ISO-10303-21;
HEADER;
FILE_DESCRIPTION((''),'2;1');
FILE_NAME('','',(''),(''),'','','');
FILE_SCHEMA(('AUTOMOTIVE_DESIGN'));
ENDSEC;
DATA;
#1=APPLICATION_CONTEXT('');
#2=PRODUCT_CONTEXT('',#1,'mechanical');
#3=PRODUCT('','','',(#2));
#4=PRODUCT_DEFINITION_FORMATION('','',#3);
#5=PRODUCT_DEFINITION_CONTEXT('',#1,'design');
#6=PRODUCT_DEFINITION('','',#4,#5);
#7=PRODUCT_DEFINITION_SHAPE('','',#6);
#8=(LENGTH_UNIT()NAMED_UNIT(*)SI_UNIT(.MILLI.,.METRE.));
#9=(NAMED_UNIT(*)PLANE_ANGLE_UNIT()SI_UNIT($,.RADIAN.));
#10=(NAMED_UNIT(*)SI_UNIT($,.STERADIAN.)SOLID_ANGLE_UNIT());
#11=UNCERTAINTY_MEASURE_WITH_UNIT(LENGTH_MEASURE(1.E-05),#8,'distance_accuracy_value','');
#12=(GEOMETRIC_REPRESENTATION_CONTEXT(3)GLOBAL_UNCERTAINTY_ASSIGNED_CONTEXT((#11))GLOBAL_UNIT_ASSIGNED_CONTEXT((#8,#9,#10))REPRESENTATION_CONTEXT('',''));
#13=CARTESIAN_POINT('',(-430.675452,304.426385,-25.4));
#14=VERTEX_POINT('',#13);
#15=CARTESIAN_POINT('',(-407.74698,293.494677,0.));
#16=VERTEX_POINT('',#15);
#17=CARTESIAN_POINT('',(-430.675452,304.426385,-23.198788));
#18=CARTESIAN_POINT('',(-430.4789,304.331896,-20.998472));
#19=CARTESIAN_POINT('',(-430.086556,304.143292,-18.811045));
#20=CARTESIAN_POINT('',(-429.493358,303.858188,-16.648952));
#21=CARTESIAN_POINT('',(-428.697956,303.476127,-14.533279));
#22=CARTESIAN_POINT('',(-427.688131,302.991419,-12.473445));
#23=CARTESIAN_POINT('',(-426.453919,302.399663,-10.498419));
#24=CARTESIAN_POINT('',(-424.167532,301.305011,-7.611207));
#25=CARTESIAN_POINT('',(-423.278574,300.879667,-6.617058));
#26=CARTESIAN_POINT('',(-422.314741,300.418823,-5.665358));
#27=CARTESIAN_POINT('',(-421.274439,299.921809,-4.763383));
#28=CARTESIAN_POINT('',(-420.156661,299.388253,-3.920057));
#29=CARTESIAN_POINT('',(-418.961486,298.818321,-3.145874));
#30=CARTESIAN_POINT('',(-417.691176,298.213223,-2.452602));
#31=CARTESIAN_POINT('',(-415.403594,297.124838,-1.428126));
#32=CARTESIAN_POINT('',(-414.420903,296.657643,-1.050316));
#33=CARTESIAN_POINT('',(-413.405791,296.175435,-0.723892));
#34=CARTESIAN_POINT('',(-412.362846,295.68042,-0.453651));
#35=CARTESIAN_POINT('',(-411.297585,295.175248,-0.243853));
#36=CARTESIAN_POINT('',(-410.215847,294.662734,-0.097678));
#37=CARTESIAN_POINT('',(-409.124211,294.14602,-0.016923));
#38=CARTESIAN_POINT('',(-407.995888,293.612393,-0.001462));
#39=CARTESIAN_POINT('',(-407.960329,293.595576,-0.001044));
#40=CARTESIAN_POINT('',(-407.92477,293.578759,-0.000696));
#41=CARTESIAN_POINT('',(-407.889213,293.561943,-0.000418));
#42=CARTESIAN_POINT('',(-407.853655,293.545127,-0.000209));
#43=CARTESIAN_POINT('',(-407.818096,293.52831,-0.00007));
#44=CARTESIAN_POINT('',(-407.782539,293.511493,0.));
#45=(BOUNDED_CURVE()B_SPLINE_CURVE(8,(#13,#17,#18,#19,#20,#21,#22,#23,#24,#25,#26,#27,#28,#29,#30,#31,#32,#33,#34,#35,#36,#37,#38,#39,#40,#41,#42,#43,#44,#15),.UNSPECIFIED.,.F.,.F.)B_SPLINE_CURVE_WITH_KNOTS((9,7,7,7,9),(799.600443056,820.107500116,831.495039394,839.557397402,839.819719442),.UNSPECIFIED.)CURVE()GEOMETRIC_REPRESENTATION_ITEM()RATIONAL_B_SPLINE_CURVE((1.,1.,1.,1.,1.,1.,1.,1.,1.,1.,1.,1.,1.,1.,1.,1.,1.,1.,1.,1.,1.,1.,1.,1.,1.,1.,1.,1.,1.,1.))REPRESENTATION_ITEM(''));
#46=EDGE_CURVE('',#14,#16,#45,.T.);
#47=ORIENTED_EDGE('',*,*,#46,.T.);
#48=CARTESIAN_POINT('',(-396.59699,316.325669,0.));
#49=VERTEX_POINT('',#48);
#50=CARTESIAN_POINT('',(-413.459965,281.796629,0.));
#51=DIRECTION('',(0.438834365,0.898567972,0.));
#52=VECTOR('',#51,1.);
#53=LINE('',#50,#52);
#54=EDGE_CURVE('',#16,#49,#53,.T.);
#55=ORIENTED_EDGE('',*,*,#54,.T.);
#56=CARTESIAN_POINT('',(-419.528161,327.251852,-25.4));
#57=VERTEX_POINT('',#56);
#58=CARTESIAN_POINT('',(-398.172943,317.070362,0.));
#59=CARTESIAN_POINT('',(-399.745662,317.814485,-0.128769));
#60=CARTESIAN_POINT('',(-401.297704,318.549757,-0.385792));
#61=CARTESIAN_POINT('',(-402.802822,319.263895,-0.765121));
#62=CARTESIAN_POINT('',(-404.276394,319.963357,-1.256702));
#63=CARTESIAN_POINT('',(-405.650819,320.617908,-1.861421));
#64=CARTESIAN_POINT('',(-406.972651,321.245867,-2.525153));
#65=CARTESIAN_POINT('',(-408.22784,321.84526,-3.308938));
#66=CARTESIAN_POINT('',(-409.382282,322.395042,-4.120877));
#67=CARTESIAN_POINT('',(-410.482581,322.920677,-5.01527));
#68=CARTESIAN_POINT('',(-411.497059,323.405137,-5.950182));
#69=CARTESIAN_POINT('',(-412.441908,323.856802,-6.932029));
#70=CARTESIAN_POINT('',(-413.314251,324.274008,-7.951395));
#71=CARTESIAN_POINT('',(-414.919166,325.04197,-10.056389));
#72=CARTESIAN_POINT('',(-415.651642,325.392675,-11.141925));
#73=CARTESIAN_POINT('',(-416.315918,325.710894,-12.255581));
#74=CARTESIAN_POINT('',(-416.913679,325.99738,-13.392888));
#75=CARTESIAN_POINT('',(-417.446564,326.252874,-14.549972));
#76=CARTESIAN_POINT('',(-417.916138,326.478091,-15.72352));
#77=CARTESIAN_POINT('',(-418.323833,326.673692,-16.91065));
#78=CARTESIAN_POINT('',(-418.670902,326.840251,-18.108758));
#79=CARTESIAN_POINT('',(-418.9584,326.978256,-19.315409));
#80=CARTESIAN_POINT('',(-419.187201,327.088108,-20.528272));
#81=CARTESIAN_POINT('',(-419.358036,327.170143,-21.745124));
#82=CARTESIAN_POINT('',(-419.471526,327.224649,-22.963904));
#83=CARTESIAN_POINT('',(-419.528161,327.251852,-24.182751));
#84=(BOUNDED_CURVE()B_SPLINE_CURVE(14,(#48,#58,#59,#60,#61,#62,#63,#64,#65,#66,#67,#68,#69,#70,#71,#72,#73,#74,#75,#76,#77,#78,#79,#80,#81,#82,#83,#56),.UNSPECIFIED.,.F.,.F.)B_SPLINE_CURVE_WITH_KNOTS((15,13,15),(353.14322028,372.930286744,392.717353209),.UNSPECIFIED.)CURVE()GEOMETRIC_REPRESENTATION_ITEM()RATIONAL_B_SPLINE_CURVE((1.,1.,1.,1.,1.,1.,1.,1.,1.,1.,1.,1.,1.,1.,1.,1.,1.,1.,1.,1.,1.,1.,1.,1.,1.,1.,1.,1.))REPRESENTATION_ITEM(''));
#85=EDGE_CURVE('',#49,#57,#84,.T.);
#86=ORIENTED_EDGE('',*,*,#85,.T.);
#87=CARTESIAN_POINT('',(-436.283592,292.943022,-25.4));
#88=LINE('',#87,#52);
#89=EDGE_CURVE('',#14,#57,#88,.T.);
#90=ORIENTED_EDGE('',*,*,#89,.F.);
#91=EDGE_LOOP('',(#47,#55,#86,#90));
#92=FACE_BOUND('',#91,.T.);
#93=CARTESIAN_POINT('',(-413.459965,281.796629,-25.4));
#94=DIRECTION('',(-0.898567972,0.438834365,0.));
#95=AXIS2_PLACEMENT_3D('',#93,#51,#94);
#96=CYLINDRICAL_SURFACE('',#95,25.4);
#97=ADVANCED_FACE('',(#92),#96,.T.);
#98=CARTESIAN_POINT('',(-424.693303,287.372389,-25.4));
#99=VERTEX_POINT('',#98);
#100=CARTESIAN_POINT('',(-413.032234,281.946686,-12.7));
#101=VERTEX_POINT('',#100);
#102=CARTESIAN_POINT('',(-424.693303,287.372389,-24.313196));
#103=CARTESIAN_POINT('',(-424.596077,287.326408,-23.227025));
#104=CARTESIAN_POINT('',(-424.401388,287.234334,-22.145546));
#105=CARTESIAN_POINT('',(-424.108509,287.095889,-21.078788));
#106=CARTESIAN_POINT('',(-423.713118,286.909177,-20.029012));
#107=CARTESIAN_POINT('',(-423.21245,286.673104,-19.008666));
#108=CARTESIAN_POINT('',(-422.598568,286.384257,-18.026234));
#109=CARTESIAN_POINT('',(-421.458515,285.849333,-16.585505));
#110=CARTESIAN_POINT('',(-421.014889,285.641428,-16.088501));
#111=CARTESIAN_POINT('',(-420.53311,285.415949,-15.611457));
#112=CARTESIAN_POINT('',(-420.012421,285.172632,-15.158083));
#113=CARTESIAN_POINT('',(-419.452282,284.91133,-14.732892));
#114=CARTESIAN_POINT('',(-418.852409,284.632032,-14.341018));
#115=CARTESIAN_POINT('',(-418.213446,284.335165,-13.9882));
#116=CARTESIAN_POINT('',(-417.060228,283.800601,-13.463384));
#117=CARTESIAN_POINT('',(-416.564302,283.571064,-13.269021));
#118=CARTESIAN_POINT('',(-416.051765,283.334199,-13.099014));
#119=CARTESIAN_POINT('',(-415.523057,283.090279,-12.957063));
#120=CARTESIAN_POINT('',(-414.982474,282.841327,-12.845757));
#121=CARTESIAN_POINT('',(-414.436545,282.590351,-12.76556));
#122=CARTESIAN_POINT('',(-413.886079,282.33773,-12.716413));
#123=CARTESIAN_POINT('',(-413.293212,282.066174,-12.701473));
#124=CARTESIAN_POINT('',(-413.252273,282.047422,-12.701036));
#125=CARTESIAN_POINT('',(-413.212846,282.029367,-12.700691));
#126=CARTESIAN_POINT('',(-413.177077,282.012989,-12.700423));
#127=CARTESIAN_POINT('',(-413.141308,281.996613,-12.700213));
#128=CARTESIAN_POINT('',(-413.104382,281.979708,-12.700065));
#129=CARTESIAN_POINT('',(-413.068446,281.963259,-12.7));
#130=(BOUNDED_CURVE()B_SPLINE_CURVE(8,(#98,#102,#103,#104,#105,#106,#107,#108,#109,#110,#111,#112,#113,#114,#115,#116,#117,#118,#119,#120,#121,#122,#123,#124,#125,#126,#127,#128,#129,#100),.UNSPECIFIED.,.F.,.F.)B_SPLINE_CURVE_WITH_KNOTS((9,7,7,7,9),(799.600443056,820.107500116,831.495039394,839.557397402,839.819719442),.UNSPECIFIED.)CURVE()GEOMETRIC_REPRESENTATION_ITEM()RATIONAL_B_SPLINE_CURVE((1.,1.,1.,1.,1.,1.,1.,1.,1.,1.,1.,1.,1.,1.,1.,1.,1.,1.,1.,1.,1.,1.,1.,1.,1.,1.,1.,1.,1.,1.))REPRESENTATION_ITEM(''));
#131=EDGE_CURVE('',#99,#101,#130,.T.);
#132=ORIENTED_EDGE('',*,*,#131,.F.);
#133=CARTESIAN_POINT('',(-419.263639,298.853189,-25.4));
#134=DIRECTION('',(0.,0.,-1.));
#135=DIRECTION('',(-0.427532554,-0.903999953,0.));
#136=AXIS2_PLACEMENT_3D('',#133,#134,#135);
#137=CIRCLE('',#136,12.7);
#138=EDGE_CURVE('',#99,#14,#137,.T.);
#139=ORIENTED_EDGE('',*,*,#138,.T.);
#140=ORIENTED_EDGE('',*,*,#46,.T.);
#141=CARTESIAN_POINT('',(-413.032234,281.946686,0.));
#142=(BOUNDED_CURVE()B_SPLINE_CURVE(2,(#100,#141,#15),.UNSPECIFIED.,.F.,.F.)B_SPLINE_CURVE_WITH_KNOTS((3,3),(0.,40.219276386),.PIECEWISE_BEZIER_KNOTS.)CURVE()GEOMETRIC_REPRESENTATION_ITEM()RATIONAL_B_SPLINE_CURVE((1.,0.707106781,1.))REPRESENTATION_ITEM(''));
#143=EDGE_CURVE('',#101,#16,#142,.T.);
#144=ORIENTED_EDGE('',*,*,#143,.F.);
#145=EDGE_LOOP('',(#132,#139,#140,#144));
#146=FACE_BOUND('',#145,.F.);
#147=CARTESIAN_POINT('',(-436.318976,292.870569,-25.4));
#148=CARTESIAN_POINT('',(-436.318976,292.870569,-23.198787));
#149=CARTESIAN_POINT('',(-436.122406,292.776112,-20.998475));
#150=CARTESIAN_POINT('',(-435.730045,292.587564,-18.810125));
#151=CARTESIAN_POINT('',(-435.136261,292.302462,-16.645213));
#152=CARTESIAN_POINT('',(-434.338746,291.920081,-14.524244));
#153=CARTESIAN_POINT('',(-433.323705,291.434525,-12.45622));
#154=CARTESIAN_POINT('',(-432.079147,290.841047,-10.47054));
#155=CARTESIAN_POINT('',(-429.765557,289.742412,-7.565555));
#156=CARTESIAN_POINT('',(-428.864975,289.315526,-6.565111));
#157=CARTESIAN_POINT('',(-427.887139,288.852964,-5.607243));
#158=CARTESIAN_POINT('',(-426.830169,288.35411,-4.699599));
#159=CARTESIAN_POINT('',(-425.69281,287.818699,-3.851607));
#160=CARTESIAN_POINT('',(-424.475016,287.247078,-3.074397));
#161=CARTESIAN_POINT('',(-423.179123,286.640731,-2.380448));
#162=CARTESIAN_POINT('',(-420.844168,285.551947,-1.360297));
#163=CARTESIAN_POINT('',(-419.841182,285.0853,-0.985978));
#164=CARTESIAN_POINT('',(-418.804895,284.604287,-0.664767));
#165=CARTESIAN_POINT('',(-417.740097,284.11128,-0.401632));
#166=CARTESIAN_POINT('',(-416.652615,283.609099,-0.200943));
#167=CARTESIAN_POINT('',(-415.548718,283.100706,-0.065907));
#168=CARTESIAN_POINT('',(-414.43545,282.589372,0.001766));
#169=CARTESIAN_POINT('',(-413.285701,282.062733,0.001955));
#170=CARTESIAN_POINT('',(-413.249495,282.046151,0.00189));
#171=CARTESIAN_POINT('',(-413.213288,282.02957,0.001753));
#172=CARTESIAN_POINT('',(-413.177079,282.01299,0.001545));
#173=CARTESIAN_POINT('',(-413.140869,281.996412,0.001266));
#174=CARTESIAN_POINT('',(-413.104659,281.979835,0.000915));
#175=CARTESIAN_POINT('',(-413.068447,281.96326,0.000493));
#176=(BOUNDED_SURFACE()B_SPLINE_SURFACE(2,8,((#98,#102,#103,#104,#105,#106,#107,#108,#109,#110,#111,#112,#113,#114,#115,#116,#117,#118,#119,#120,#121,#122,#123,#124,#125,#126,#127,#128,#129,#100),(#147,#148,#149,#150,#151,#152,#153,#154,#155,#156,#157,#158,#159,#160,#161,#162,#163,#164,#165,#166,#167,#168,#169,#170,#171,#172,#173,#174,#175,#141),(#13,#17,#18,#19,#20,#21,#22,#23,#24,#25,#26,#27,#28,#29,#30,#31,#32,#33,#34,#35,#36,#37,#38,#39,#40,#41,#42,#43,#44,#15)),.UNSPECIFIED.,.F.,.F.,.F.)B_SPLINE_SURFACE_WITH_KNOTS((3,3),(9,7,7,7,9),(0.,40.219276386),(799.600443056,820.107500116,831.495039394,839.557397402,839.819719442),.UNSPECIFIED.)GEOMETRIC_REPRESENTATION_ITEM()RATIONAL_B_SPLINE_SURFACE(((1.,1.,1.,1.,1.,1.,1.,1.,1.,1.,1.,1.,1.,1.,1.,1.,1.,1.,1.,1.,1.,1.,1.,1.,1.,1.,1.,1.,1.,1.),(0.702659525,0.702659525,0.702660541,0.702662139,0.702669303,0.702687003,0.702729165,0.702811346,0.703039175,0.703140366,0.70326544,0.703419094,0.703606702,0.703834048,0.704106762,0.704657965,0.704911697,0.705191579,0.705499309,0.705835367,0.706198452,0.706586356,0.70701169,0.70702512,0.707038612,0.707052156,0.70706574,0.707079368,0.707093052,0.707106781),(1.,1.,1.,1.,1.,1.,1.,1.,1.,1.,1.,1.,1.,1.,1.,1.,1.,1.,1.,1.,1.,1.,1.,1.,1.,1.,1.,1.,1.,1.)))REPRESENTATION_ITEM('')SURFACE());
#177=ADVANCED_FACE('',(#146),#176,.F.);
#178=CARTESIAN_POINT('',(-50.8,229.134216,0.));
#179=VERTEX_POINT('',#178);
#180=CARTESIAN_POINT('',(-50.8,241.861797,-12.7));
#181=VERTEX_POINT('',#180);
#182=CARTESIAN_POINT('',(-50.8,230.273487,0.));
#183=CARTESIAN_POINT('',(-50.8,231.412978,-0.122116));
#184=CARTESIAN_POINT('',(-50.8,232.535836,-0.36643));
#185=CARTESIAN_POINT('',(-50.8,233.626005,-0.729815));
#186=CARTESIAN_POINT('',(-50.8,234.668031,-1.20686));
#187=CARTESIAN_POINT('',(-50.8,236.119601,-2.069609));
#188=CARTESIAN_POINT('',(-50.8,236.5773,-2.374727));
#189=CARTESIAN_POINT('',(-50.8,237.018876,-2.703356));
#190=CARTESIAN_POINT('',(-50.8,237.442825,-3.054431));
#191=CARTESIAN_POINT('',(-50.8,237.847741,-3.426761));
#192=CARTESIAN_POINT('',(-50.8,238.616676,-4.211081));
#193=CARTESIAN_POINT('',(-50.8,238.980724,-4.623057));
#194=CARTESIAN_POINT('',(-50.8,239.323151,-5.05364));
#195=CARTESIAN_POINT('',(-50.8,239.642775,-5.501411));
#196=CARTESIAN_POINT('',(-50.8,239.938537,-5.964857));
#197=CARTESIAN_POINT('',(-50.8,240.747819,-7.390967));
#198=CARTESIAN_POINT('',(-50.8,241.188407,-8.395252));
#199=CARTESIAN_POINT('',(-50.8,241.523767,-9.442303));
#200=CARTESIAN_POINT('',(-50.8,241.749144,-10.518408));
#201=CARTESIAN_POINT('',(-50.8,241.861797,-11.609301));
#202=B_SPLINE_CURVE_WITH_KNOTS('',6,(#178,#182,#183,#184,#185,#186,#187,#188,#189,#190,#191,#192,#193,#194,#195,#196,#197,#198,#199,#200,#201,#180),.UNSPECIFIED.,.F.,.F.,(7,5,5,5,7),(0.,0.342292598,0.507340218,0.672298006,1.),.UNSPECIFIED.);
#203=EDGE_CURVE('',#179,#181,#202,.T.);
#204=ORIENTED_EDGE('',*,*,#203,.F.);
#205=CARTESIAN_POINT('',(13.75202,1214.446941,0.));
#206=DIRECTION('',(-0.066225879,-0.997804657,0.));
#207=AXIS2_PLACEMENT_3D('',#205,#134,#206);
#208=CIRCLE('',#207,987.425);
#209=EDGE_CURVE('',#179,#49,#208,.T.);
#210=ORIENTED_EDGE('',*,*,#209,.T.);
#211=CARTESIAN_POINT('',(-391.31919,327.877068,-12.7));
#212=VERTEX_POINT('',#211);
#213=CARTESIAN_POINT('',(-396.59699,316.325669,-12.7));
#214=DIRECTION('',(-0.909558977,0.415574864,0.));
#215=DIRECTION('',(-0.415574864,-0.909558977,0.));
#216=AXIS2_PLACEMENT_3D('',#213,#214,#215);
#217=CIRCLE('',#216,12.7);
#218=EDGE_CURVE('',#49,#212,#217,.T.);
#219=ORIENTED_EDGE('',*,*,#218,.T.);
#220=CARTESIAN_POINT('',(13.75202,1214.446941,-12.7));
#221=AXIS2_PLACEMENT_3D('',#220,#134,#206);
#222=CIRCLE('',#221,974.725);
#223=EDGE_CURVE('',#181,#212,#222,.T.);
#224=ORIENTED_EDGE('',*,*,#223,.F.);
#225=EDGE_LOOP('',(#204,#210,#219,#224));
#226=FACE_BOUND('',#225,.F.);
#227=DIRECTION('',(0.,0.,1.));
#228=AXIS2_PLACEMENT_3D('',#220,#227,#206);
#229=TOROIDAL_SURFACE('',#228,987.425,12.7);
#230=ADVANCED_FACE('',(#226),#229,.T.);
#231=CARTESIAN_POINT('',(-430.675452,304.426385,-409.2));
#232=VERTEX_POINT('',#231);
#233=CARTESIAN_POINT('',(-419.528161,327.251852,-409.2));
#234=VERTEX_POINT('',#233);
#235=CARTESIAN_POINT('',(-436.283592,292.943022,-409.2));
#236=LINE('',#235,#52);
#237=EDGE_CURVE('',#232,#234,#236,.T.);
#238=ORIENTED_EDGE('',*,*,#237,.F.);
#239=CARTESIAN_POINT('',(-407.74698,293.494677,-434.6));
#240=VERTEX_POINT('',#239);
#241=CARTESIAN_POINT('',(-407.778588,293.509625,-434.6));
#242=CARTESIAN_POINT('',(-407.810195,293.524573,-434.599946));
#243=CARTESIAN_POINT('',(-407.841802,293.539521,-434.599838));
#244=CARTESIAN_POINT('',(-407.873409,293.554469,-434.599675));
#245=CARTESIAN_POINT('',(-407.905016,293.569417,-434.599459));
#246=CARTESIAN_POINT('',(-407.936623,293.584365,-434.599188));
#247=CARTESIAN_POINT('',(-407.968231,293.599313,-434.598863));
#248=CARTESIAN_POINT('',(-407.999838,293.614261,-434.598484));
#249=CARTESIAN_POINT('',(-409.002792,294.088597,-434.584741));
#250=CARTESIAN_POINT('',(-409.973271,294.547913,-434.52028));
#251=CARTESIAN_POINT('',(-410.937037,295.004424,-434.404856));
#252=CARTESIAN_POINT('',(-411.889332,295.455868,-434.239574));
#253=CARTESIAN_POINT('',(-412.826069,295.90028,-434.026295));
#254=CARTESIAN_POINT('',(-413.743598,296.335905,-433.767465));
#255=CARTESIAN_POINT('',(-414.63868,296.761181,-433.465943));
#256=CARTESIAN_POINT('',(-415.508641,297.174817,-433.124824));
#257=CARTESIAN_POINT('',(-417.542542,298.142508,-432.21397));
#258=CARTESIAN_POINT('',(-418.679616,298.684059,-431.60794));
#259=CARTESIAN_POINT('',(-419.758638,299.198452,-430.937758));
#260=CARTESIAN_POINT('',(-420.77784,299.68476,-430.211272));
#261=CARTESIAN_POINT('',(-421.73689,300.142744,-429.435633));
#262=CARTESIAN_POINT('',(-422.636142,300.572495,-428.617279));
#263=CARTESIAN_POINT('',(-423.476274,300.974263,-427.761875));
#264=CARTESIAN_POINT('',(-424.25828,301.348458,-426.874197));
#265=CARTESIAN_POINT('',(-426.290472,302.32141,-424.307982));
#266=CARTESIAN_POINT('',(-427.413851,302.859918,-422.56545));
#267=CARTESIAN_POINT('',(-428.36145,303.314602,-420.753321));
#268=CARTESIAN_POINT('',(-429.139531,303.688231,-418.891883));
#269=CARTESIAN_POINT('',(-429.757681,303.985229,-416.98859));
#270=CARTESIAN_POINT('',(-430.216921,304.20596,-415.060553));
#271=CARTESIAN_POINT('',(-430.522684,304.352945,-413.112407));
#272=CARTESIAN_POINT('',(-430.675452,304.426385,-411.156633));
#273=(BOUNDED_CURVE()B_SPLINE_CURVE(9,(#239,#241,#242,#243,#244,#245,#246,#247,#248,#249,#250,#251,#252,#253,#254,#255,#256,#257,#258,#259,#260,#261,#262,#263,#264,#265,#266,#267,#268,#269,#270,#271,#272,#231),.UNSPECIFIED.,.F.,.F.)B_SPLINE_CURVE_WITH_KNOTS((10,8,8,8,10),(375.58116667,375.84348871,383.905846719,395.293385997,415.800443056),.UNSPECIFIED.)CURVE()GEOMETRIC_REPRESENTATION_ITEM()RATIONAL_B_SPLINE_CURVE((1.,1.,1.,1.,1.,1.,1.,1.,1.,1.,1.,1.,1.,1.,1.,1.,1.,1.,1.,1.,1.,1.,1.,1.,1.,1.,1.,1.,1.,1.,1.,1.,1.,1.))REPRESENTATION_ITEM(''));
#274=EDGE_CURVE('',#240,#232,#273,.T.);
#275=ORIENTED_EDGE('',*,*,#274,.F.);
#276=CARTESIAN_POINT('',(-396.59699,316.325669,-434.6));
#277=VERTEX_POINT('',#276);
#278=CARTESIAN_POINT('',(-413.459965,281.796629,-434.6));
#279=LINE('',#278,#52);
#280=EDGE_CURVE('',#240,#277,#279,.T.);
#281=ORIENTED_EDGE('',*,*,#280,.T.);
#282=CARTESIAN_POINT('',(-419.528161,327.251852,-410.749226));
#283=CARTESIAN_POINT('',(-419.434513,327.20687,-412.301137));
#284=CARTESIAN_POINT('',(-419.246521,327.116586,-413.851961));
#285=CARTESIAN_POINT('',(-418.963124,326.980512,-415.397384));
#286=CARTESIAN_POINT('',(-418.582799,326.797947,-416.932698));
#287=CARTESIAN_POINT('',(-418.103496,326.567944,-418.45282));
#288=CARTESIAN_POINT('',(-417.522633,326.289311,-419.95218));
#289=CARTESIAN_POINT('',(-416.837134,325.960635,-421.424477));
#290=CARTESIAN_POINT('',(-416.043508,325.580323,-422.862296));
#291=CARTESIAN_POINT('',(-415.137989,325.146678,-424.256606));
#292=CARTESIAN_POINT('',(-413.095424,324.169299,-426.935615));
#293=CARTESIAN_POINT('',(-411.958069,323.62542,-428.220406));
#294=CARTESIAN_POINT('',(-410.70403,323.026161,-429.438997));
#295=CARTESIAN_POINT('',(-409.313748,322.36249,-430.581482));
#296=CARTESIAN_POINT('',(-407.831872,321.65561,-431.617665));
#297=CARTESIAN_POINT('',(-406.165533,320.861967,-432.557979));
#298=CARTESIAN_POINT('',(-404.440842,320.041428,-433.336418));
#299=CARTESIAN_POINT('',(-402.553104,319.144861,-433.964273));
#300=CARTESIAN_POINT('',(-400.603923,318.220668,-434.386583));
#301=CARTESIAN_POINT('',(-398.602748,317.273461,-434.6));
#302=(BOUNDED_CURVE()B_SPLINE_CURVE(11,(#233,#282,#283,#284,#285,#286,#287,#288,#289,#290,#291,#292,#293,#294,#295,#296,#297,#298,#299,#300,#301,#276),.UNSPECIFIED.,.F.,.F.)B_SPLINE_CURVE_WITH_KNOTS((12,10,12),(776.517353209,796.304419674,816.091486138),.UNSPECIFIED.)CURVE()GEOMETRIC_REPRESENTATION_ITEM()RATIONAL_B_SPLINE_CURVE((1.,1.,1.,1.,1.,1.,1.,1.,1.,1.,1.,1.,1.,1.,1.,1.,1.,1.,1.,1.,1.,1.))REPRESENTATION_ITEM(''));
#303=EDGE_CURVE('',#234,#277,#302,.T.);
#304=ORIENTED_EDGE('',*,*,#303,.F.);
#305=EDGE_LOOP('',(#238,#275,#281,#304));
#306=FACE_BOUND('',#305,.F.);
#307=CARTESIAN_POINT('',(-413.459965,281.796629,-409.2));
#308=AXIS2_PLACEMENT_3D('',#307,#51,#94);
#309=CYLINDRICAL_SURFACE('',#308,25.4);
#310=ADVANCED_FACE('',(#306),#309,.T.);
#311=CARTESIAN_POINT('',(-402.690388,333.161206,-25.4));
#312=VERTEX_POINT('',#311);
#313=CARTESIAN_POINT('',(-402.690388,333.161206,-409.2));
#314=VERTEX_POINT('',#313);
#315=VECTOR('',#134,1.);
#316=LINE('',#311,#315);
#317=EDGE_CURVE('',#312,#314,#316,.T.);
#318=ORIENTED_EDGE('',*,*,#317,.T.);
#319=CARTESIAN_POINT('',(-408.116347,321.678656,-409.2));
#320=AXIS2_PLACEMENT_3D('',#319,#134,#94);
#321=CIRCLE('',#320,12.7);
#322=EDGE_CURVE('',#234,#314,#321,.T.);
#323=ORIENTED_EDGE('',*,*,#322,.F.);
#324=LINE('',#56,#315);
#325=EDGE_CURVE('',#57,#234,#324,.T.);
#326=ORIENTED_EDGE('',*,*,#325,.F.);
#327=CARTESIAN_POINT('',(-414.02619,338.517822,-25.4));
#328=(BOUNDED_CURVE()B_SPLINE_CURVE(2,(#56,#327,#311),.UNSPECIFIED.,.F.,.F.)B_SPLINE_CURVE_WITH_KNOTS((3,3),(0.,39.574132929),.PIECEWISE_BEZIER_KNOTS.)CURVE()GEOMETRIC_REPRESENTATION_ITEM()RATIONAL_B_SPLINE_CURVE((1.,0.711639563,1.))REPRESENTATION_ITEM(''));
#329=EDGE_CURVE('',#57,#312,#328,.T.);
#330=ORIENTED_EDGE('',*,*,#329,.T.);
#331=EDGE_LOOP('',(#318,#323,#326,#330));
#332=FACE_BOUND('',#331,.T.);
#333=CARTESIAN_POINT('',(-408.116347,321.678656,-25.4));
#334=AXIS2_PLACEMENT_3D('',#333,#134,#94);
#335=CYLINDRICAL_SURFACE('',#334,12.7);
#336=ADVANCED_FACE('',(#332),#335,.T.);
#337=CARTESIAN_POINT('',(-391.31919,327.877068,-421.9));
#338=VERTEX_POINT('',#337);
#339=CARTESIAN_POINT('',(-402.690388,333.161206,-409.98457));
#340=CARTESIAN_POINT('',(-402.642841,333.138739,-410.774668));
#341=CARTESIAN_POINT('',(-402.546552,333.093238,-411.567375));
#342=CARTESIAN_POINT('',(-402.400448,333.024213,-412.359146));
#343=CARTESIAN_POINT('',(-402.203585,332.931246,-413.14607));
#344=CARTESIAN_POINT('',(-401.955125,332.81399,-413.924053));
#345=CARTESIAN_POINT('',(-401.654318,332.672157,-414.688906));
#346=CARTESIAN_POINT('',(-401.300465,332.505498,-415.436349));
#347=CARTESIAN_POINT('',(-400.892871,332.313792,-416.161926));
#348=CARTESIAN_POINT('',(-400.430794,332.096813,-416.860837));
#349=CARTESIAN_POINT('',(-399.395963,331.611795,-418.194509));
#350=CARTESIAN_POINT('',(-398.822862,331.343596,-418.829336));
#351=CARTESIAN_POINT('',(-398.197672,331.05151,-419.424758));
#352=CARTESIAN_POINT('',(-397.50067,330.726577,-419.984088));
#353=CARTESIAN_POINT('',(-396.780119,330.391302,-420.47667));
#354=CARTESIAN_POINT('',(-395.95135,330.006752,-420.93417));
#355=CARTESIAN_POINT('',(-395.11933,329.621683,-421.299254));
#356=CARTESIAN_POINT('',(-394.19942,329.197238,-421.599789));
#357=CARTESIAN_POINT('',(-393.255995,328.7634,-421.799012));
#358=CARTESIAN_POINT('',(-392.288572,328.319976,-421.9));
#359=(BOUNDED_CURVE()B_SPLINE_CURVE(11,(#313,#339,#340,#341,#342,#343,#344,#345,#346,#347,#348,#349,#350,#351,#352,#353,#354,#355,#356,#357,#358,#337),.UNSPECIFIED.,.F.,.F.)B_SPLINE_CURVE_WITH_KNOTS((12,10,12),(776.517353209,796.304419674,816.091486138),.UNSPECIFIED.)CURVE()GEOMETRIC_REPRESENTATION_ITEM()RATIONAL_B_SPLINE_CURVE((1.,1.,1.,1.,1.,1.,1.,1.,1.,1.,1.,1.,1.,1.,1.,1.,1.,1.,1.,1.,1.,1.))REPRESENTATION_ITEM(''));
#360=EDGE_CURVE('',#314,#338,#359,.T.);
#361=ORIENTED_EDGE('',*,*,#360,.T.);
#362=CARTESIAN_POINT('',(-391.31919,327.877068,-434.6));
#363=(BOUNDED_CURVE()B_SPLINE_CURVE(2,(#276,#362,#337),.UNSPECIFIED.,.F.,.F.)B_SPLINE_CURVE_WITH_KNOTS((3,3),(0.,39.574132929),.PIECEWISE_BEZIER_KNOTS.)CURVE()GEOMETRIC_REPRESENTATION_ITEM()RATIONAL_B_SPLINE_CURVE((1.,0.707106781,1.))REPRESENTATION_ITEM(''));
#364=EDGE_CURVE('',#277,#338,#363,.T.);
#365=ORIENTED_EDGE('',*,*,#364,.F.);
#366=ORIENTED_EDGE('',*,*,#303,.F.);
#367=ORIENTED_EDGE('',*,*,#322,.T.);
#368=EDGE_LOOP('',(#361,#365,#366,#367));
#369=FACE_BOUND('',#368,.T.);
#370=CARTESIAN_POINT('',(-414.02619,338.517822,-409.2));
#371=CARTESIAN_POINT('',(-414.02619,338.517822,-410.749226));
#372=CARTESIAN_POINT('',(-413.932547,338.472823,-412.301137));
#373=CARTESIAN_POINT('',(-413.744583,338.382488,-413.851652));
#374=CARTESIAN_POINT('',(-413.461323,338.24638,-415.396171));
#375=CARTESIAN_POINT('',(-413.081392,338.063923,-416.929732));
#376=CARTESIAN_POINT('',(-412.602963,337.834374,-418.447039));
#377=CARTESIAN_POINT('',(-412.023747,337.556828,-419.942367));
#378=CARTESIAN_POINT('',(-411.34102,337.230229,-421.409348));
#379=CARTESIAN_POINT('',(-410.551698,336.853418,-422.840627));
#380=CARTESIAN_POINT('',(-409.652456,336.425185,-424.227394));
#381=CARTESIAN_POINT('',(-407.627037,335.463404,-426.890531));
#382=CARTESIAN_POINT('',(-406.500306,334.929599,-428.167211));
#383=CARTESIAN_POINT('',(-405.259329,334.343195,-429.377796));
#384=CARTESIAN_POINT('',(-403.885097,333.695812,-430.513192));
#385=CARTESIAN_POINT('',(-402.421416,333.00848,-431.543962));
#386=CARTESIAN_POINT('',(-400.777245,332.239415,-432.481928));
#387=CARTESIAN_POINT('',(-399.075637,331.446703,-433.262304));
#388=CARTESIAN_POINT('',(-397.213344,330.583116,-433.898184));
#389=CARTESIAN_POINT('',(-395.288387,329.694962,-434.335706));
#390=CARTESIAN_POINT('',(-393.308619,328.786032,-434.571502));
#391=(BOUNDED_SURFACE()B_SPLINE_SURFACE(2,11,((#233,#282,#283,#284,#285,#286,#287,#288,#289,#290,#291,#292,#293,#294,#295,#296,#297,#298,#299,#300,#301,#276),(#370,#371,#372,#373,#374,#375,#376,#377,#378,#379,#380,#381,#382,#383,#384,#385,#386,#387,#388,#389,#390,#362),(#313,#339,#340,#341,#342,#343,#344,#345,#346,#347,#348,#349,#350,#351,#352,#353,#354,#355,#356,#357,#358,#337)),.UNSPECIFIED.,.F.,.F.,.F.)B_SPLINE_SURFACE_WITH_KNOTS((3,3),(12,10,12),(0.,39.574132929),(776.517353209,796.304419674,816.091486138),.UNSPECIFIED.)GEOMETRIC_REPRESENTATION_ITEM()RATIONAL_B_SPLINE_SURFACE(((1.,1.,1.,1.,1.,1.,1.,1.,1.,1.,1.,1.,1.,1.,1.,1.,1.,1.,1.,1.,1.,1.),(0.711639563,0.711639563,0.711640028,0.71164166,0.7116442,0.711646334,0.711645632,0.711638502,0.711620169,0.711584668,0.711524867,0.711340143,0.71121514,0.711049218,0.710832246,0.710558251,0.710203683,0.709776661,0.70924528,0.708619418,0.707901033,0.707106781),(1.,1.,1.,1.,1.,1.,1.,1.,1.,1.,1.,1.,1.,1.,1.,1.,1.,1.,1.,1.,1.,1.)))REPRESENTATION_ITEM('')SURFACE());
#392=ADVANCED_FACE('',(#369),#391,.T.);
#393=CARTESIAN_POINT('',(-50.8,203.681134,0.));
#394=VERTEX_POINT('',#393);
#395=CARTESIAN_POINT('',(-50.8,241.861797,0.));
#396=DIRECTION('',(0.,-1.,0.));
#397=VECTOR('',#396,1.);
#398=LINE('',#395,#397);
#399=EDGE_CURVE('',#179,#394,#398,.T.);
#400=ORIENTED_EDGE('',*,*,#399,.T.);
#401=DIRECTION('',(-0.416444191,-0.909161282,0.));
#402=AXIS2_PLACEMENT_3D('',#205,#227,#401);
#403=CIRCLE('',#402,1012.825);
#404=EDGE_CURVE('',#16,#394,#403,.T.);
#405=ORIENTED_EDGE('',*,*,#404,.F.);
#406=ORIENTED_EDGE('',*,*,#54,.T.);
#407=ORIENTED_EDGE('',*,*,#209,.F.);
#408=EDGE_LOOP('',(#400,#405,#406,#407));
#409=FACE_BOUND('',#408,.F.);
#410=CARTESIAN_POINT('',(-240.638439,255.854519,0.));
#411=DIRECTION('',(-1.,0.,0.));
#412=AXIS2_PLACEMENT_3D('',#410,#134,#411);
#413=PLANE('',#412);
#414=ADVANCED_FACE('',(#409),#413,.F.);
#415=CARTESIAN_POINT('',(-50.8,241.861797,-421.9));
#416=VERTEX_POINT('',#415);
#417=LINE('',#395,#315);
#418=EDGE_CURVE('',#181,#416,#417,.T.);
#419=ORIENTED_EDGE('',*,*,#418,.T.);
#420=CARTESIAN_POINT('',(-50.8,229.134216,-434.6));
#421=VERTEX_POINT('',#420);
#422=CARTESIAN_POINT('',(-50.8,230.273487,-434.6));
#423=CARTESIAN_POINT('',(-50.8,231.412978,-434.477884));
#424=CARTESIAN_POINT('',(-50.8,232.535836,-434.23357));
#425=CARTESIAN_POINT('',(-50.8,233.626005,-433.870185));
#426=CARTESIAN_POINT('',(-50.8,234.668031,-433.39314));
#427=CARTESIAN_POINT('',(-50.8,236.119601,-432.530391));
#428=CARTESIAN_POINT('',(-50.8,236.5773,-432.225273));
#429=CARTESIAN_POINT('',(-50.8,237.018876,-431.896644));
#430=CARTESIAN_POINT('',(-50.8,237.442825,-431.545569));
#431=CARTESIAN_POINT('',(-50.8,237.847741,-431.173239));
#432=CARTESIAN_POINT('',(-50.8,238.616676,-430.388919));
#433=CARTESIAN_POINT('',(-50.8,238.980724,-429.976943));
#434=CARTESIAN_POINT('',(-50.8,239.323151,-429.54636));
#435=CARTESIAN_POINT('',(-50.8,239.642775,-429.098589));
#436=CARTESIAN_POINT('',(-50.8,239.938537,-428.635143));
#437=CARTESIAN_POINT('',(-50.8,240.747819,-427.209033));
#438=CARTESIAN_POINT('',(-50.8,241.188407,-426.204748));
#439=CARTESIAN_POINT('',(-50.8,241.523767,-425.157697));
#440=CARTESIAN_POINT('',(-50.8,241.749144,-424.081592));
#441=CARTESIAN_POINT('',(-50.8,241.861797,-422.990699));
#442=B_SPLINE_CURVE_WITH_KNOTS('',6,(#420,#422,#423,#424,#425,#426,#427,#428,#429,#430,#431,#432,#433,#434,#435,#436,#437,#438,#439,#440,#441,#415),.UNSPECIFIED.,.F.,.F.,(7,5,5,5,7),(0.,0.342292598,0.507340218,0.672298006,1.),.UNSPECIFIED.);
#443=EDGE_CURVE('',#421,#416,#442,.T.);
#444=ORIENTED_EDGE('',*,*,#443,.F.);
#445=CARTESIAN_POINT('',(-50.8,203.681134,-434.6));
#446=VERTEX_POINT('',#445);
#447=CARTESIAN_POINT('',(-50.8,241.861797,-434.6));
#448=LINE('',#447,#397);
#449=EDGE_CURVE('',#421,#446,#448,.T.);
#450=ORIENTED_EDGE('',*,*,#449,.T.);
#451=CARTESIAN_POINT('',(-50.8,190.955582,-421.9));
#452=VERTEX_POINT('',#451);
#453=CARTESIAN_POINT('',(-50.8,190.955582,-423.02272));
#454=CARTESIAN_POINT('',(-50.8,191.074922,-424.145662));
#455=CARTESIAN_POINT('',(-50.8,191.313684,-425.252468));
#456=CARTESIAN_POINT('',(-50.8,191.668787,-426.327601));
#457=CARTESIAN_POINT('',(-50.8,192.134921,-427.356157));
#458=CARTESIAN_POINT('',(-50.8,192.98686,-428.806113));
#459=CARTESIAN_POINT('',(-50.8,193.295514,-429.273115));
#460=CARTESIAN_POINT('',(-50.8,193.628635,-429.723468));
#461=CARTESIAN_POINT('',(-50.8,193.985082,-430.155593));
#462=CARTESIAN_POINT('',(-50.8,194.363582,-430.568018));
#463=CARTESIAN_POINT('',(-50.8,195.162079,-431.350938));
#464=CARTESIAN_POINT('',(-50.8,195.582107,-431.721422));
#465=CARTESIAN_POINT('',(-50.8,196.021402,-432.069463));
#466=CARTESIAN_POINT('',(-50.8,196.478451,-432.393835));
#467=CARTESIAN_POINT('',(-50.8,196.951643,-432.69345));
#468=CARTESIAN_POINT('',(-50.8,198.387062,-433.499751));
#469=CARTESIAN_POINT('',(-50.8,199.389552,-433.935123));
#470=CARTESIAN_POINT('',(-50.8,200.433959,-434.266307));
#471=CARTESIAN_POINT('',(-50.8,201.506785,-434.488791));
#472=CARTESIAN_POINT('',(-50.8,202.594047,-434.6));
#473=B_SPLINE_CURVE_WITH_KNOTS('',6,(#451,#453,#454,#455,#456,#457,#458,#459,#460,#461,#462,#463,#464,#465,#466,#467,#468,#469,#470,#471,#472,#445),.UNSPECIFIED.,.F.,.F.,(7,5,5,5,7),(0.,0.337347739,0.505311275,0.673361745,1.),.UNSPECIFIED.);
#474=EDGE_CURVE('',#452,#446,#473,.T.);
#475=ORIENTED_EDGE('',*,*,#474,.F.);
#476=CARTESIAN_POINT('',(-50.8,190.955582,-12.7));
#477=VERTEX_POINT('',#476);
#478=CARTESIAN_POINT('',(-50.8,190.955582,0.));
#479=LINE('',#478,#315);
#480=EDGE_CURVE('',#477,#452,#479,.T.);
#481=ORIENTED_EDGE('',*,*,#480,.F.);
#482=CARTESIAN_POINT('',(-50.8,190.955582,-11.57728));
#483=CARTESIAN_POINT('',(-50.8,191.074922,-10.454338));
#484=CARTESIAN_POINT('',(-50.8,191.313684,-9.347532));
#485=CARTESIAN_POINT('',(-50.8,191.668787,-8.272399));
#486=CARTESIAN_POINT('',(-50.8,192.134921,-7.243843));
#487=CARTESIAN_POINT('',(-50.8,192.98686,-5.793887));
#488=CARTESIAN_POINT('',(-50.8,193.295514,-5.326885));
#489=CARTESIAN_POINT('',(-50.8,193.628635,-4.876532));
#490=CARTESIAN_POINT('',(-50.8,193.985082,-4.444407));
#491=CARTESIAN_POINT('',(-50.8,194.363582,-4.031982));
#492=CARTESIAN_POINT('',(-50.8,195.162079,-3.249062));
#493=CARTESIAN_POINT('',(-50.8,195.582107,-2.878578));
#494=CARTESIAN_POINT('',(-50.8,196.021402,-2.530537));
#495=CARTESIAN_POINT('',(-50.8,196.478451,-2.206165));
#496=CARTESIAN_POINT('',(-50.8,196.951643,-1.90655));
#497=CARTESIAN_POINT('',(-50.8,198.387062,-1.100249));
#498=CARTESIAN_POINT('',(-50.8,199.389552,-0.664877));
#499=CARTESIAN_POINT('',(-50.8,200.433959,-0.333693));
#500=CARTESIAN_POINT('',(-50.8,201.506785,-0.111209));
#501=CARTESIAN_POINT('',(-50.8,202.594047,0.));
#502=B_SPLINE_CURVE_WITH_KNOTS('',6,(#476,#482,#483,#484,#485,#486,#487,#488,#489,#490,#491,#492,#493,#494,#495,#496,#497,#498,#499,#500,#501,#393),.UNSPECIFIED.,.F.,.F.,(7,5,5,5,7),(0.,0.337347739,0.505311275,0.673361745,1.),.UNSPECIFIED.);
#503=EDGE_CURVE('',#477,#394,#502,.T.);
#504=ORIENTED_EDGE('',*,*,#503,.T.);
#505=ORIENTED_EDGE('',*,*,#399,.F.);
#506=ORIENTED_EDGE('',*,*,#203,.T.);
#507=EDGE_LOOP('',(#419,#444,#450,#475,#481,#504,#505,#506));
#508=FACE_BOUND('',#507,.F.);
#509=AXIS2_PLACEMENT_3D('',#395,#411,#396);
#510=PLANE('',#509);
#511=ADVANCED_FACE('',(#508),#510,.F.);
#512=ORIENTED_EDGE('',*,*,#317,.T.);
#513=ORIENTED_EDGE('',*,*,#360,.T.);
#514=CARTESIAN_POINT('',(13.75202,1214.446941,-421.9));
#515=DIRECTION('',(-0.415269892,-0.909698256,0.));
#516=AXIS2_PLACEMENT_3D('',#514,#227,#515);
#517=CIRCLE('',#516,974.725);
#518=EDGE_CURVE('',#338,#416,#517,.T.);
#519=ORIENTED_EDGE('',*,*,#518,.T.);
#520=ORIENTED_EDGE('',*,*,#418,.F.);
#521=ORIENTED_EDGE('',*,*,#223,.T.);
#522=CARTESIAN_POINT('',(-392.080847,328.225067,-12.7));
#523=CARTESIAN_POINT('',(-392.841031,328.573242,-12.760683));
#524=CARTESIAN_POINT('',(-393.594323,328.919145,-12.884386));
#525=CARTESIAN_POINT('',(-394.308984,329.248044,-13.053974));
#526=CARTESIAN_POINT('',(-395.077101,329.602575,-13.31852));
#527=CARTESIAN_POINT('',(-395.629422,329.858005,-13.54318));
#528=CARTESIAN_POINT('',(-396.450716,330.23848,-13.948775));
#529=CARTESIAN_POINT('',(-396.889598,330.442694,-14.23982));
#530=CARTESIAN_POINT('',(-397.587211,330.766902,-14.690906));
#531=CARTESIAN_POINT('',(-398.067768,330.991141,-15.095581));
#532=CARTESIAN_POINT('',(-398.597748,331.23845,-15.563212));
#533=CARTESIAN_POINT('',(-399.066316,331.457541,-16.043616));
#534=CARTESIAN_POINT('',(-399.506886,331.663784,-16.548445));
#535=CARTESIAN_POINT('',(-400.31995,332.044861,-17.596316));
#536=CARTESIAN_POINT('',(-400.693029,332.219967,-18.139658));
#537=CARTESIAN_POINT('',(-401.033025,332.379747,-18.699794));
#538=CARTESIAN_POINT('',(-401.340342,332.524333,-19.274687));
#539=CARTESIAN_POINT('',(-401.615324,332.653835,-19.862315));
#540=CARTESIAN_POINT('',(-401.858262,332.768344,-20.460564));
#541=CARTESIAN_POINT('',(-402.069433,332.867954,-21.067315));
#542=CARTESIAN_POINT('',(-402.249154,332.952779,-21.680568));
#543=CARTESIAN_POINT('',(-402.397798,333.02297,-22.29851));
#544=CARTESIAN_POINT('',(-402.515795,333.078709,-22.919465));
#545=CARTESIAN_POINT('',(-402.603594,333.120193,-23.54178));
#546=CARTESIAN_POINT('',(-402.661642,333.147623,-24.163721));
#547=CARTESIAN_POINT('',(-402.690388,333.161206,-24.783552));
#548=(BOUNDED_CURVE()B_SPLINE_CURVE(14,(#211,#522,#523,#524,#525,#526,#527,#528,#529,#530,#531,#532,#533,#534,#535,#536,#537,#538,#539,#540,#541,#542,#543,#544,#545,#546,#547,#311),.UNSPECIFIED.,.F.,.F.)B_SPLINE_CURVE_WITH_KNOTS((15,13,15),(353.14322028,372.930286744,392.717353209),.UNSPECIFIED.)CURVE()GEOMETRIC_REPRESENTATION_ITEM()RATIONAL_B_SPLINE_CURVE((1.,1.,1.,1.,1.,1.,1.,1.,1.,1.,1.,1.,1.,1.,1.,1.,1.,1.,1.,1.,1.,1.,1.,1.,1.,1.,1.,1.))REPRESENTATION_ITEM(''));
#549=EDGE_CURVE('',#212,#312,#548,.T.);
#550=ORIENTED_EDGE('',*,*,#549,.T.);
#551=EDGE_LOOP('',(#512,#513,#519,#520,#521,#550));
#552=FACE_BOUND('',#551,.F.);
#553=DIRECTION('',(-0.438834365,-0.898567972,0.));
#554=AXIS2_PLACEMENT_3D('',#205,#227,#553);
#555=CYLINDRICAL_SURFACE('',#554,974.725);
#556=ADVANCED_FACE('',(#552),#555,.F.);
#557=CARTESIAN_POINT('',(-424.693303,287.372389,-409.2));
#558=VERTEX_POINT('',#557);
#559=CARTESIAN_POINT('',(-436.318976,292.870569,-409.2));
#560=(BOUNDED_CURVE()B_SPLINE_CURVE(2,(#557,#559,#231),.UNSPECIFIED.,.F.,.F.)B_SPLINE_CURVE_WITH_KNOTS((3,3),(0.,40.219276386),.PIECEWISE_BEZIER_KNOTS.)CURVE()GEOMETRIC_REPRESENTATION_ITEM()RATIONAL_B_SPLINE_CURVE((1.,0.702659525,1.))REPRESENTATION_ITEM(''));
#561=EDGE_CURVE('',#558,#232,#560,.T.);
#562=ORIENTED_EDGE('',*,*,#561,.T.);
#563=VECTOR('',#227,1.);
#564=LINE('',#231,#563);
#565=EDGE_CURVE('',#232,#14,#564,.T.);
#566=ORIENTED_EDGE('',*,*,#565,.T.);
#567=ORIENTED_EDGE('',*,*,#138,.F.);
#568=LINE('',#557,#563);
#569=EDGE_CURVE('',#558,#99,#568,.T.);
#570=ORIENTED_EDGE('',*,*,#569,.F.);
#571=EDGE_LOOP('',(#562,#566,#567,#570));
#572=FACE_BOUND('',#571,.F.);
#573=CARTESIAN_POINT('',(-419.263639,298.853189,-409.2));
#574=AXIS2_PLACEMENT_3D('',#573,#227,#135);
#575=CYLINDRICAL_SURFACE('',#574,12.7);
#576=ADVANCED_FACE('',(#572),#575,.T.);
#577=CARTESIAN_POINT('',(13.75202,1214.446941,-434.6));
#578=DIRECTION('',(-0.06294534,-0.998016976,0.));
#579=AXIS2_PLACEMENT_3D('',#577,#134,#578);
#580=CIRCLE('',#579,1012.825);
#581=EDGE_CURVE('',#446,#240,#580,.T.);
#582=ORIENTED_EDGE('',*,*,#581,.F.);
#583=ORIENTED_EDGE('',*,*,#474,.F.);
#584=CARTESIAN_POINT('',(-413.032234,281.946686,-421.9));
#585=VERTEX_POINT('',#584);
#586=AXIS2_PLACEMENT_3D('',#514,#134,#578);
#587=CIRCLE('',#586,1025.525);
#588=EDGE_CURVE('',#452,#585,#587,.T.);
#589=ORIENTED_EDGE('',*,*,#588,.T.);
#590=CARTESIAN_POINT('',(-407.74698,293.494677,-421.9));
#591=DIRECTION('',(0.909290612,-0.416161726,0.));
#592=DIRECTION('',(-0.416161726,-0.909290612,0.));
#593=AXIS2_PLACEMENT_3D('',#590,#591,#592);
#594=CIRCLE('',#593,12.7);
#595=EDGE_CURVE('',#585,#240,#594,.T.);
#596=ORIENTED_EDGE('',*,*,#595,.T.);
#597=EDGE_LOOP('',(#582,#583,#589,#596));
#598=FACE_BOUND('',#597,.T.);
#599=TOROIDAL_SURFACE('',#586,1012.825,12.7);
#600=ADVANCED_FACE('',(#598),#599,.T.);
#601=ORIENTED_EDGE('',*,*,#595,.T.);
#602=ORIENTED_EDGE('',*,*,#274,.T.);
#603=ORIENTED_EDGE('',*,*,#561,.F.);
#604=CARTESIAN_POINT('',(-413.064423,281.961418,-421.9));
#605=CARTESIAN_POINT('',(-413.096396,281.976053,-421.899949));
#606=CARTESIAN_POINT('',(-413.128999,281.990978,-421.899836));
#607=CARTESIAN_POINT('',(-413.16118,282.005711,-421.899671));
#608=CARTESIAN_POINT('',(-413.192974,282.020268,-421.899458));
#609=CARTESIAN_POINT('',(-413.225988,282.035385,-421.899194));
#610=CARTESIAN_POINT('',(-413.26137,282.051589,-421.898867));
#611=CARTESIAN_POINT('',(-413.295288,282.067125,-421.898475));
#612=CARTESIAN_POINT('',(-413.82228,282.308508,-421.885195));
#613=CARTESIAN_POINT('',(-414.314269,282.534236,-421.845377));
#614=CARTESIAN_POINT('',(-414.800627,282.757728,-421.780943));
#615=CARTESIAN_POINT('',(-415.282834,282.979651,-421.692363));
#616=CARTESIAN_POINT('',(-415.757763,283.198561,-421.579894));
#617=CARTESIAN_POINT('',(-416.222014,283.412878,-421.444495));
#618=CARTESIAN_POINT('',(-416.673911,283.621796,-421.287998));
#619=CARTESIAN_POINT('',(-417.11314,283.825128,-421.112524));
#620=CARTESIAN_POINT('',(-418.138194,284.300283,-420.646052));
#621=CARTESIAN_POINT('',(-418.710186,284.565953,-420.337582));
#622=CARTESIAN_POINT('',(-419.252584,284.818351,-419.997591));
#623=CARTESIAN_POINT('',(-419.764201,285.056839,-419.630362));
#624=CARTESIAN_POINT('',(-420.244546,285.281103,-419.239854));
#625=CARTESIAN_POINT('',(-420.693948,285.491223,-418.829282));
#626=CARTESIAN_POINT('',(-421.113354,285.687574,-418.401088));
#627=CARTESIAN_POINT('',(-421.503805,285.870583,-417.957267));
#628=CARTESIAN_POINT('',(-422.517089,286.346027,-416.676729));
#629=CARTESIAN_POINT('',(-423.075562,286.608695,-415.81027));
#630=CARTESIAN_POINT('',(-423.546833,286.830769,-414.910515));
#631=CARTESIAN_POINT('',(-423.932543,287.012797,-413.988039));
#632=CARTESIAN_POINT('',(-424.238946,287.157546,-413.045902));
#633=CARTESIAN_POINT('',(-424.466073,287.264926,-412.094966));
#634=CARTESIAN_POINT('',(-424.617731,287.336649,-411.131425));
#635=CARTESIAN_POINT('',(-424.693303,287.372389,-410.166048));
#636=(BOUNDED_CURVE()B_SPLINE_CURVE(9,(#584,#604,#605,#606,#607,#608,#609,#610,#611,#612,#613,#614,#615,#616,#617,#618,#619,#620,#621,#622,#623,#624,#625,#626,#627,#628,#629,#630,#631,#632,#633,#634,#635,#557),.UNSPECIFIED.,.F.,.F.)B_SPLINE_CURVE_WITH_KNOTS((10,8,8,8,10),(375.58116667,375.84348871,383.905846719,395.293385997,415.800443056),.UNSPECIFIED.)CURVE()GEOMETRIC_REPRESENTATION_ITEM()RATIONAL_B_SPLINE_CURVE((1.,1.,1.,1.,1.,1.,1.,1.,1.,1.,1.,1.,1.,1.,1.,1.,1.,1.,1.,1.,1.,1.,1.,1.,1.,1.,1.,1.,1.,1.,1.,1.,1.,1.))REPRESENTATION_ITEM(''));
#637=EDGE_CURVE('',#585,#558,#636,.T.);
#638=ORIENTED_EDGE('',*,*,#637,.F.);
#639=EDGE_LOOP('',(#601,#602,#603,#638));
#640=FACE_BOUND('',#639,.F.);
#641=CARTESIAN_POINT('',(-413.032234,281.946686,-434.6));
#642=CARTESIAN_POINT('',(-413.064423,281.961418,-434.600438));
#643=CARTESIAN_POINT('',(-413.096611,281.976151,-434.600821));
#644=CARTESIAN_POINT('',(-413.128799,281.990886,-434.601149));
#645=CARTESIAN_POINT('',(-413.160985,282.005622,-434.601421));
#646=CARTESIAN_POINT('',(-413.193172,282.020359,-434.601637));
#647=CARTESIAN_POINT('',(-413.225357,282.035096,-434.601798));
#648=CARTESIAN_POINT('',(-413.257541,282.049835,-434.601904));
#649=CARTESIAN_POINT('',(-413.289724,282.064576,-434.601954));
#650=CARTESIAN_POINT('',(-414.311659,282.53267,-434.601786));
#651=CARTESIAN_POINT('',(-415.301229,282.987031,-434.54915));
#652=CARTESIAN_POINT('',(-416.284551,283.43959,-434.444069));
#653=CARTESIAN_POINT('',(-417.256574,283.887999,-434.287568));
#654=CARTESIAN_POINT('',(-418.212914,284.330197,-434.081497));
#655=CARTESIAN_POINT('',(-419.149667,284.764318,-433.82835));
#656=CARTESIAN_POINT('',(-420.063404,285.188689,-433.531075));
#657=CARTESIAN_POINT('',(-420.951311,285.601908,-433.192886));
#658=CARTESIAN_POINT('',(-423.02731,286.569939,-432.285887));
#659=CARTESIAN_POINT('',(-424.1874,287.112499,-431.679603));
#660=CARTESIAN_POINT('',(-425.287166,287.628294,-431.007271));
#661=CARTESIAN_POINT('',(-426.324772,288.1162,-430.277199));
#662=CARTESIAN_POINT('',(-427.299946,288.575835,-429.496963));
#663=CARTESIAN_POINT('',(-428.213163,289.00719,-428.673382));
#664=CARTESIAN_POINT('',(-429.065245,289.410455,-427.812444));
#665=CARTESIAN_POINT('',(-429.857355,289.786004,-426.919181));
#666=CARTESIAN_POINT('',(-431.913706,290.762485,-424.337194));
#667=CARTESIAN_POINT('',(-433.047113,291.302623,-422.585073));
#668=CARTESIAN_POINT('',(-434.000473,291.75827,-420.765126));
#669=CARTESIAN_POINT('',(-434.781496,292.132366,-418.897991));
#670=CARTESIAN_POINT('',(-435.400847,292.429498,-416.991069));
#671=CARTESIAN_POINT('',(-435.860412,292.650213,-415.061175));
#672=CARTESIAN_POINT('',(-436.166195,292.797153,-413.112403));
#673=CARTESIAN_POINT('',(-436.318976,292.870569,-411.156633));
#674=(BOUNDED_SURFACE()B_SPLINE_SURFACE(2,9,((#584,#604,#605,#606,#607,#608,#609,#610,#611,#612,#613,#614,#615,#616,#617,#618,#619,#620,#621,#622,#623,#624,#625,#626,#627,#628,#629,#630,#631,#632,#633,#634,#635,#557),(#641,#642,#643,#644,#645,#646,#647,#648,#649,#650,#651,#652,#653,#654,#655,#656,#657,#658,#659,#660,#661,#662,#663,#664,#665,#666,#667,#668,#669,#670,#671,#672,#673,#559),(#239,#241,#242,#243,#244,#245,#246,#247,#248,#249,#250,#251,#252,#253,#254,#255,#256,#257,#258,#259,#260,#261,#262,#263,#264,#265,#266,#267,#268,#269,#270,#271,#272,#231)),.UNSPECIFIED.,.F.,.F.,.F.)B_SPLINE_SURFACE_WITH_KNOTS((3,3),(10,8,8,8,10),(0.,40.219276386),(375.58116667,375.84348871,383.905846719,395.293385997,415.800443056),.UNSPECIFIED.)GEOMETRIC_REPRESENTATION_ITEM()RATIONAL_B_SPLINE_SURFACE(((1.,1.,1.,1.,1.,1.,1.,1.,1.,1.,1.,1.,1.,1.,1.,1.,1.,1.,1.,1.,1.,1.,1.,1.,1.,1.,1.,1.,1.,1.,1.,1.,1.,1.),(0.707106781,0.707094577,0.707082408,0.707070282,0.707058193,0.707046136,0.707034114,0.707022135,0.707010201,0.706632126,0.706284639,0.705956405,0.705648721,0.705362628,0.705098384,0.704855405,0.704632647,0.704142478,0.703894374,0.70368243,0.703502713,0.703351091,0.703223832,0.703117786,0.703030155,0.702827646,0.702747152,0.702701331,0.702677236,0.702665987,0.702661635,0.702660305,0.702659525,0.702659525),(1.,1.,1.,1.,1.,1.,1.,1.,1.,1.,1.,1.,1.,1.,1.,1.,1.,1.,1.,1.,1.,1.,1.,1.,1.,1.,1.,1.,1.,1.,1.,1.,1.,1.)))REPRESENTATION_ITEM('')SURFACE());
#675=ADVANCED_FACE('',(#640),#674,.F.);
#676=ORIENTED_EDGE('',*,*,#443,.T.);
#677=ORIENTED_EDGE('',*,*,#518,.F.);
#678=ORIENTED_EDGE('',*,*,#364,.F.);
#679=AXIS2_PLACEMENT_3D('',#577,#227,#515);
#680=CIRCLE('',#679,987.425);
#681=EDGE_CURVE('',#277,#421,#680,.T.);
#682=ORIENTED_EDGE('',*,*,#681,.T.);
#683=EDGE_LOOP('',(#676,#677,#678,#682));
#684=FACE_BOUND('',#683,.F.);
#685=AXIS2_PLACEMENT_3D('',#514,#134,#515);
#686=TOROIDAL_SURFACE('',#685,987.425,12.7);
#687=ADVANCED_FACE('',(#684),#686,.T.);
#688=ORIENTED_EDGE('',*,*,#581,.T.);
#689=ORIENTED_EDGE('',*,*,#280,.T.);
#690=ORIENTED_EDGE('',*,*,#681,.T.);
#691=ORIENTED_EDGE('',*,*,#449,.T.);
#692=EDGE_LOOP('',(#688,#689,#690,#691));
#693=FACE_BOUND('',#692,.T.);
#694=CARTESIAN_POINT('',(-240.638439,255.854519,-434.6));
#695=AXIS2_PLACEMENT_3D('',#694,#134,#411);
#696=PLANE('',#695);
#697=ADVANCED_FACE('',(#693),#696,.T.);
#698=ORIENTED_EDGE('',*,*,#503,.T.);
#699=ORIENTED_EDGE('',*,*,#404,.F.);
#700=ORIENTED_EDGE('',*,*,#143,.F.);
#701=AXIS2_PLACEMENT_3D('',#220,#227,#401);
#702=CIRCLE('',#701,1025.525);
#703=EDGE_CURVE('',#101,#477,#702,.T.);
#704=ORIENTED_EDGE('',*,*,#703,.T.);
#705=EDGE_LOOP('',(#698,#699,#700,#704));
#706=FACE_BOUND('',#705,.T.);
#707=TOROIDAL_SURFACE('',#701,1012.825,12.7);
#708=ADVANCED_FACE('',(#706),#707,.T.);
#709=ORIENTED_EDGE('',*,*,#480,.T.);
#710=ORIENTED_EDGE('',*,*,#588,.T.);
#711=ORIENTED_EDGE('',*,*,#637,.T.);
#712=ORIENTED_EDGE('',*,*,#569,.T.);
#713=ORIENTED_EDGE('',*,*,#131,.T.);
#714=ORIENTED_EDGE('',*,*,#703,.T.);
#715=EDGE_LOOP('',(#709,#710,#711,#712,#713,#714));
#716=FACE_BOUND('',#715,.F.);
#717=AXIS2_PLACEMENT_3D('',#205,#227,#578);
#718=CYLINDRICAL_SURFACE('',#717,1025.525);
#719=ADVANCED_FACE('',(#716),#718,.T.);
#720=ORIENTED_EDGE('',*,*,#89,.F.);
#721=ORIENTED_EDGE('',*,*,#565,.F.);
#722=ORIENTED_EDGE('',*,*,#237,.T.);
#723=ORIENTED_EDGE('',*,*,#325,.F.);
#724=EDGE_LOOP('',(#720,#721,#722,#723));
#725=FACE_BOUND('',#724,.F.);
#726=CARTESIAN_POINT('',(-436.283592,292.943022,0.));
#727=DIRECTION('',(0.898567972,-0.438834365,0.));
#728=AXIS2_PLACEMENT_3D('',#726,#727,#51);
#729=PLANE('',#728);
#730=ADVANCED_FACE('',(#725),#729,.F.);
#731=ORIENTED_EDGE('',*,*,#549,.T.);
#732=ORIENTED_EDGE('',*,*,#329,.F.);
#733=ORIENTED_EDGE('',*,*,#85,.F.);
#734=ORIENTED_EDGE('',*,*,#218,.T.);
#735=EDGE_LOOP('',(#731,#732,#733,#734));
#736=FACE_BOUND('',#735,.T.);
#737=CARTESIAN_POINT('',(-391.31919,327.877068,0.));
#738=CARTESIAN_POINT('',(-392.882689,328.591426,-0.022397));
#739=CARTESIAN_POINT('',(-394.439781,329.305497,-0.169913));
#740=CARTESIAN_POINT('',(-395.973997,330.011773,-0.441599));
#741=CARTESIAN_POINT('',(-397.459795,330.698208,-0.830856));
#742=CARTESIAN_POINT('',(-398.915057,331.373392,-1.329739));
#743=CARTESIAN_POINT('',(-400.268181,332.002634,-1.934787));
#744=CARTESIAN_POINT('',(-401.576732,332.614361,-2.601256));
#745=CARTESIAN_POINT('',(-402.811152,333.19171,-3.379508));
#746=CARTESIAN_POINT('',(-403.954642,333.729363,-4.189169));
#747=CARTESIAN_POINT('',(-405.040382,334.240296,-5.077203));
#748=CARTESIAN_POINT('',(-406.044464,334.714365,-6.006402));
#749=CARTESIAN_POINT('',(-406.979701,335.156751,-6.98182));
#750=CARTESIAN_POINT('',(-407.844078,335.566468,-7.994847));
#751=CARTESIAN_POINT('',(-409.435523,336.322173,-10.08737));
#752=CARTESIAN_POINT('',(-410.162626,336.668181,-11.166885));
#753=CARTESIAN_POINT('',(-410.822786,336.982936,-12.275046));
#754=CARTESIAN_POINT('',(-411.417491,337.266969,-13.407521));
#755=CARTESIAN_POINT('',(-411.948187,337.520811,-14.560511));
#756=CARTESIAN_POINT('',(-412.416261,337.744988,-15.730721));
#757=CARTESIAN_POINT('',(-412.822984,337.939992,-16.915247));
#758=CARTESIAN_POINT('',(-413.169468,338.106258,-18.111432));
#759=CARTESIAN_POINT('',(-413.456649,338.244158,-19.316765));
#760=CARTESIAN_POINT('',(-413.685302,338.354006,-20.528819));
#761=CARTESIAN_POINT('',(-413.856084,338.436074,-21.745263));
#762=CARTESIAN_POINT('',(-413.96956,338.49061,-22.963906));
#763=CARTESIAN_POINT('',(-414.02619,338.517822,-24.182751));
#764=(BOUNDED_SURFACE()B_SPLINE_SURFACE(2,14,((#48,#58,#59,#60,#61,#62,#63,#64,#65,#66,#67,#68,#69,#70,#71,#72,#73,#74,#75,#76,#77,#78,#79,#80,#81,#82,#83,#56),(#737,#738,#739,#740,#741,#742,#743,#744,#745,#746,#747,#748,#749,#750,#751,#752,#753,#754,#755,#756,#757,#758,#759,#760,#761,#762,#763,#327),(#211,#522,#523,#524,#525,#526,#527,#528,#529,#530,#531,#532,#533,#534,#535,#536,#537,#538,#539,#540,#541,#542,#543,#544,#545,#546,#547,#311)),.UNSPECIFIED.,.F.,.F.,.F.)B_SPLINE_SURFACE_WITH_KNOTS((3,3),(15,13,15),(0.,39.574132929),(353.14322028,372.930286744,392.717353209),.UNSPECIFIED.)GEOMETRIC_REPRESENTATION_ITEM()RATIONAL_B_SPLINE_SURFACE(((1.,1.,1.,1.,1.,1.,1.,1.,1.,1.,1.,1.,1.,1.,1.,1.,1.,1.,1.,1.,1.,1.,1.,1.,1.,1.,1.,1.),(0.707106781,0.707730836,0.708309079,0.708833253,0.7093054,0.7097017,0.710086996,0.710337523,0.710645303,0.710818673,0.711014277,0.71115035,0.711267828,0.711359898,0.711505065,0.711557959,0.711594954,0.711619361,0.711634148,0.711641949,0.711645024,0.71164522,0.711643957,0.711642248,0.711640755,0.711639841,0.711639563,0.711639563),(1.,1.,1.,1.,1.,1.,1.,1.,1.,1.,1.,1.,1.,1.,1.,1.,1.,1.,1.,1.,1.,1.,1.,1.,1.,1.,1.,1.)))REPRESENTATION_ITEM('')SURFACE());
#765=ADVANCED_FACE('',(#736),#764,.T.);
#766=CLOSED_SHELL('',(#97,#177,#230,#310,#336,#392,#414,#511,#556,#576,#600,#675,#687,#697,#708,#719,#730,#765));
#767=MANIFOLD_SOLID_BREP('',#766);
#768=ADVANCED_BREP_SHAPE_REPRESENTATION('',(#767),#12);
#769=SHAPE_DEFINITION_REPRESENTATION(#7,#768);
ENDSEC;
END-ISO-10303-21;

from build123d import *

# Parameters (mm, degrees)
BOSS_EXTRUDE1_DEPTH = 434.6
FILLET1_R           = 25.4
FILLET2_R           = 12.7


with BuildPart() as part:
    # Sketch1 → Boss-Extrude1 (new body)
    with BuildSketch(Plane.XY):
        with BuildLine():
            Line((-50.8, 241.861797239), (-50.8, 190.955582052))
            ThreePointArc((-50.8, 190.955582052), (-248.54641158, 223.033274611), (-436.283591965, 292.943021812))
            Line((-436.283591965, 292.943021812), (-413.99080623, 338.590274786))
            ThreePointArc((-413.99080623, 338.590274786), (-237.101828879, 272.554605518), (-50.8, 241.861797239))
        make_face()
    extrude(amount=-BOSS_EXTRUDE1_DEPTH)

    # Fillet1
    fillet1_edges = [part.edges().sort_by_distance(p)[0] for p in [
        (-425.137199097, 315.766648299, -434.6),
        (-425.137199097, 315.766648299, 0),
    ]]
    fillet(fillet1_edges, radius=FILLET1_R)

    # Fillet2
    fillet2_edges = [part.edges().sort_by_distance(p)[0] for p in [
        (-236.247784218, 219.860784348, -434.6),
        (-236.247784218, 219.860784348, 0),
        (-436.283591965, 292.943021812, -217.3),
        (-429.586107636, 289.70220341, -427.161351846),
        (-429.586107636, 289.70220341, -7.438648154),
        (-413.99080623, 338.590274786, -217.3),
        (-224.807276662, 269.365840187, -434.6),
        (-407.292621944, 335.350680861, -427.161443503),
        (-407.292621944, 335.350680861, -7.438556497),
        (-224.807276662, 269.365840187, 0),
    ]]
    fillet(fillet2_edges, radius=FILLET2_R)


solid = part.part
